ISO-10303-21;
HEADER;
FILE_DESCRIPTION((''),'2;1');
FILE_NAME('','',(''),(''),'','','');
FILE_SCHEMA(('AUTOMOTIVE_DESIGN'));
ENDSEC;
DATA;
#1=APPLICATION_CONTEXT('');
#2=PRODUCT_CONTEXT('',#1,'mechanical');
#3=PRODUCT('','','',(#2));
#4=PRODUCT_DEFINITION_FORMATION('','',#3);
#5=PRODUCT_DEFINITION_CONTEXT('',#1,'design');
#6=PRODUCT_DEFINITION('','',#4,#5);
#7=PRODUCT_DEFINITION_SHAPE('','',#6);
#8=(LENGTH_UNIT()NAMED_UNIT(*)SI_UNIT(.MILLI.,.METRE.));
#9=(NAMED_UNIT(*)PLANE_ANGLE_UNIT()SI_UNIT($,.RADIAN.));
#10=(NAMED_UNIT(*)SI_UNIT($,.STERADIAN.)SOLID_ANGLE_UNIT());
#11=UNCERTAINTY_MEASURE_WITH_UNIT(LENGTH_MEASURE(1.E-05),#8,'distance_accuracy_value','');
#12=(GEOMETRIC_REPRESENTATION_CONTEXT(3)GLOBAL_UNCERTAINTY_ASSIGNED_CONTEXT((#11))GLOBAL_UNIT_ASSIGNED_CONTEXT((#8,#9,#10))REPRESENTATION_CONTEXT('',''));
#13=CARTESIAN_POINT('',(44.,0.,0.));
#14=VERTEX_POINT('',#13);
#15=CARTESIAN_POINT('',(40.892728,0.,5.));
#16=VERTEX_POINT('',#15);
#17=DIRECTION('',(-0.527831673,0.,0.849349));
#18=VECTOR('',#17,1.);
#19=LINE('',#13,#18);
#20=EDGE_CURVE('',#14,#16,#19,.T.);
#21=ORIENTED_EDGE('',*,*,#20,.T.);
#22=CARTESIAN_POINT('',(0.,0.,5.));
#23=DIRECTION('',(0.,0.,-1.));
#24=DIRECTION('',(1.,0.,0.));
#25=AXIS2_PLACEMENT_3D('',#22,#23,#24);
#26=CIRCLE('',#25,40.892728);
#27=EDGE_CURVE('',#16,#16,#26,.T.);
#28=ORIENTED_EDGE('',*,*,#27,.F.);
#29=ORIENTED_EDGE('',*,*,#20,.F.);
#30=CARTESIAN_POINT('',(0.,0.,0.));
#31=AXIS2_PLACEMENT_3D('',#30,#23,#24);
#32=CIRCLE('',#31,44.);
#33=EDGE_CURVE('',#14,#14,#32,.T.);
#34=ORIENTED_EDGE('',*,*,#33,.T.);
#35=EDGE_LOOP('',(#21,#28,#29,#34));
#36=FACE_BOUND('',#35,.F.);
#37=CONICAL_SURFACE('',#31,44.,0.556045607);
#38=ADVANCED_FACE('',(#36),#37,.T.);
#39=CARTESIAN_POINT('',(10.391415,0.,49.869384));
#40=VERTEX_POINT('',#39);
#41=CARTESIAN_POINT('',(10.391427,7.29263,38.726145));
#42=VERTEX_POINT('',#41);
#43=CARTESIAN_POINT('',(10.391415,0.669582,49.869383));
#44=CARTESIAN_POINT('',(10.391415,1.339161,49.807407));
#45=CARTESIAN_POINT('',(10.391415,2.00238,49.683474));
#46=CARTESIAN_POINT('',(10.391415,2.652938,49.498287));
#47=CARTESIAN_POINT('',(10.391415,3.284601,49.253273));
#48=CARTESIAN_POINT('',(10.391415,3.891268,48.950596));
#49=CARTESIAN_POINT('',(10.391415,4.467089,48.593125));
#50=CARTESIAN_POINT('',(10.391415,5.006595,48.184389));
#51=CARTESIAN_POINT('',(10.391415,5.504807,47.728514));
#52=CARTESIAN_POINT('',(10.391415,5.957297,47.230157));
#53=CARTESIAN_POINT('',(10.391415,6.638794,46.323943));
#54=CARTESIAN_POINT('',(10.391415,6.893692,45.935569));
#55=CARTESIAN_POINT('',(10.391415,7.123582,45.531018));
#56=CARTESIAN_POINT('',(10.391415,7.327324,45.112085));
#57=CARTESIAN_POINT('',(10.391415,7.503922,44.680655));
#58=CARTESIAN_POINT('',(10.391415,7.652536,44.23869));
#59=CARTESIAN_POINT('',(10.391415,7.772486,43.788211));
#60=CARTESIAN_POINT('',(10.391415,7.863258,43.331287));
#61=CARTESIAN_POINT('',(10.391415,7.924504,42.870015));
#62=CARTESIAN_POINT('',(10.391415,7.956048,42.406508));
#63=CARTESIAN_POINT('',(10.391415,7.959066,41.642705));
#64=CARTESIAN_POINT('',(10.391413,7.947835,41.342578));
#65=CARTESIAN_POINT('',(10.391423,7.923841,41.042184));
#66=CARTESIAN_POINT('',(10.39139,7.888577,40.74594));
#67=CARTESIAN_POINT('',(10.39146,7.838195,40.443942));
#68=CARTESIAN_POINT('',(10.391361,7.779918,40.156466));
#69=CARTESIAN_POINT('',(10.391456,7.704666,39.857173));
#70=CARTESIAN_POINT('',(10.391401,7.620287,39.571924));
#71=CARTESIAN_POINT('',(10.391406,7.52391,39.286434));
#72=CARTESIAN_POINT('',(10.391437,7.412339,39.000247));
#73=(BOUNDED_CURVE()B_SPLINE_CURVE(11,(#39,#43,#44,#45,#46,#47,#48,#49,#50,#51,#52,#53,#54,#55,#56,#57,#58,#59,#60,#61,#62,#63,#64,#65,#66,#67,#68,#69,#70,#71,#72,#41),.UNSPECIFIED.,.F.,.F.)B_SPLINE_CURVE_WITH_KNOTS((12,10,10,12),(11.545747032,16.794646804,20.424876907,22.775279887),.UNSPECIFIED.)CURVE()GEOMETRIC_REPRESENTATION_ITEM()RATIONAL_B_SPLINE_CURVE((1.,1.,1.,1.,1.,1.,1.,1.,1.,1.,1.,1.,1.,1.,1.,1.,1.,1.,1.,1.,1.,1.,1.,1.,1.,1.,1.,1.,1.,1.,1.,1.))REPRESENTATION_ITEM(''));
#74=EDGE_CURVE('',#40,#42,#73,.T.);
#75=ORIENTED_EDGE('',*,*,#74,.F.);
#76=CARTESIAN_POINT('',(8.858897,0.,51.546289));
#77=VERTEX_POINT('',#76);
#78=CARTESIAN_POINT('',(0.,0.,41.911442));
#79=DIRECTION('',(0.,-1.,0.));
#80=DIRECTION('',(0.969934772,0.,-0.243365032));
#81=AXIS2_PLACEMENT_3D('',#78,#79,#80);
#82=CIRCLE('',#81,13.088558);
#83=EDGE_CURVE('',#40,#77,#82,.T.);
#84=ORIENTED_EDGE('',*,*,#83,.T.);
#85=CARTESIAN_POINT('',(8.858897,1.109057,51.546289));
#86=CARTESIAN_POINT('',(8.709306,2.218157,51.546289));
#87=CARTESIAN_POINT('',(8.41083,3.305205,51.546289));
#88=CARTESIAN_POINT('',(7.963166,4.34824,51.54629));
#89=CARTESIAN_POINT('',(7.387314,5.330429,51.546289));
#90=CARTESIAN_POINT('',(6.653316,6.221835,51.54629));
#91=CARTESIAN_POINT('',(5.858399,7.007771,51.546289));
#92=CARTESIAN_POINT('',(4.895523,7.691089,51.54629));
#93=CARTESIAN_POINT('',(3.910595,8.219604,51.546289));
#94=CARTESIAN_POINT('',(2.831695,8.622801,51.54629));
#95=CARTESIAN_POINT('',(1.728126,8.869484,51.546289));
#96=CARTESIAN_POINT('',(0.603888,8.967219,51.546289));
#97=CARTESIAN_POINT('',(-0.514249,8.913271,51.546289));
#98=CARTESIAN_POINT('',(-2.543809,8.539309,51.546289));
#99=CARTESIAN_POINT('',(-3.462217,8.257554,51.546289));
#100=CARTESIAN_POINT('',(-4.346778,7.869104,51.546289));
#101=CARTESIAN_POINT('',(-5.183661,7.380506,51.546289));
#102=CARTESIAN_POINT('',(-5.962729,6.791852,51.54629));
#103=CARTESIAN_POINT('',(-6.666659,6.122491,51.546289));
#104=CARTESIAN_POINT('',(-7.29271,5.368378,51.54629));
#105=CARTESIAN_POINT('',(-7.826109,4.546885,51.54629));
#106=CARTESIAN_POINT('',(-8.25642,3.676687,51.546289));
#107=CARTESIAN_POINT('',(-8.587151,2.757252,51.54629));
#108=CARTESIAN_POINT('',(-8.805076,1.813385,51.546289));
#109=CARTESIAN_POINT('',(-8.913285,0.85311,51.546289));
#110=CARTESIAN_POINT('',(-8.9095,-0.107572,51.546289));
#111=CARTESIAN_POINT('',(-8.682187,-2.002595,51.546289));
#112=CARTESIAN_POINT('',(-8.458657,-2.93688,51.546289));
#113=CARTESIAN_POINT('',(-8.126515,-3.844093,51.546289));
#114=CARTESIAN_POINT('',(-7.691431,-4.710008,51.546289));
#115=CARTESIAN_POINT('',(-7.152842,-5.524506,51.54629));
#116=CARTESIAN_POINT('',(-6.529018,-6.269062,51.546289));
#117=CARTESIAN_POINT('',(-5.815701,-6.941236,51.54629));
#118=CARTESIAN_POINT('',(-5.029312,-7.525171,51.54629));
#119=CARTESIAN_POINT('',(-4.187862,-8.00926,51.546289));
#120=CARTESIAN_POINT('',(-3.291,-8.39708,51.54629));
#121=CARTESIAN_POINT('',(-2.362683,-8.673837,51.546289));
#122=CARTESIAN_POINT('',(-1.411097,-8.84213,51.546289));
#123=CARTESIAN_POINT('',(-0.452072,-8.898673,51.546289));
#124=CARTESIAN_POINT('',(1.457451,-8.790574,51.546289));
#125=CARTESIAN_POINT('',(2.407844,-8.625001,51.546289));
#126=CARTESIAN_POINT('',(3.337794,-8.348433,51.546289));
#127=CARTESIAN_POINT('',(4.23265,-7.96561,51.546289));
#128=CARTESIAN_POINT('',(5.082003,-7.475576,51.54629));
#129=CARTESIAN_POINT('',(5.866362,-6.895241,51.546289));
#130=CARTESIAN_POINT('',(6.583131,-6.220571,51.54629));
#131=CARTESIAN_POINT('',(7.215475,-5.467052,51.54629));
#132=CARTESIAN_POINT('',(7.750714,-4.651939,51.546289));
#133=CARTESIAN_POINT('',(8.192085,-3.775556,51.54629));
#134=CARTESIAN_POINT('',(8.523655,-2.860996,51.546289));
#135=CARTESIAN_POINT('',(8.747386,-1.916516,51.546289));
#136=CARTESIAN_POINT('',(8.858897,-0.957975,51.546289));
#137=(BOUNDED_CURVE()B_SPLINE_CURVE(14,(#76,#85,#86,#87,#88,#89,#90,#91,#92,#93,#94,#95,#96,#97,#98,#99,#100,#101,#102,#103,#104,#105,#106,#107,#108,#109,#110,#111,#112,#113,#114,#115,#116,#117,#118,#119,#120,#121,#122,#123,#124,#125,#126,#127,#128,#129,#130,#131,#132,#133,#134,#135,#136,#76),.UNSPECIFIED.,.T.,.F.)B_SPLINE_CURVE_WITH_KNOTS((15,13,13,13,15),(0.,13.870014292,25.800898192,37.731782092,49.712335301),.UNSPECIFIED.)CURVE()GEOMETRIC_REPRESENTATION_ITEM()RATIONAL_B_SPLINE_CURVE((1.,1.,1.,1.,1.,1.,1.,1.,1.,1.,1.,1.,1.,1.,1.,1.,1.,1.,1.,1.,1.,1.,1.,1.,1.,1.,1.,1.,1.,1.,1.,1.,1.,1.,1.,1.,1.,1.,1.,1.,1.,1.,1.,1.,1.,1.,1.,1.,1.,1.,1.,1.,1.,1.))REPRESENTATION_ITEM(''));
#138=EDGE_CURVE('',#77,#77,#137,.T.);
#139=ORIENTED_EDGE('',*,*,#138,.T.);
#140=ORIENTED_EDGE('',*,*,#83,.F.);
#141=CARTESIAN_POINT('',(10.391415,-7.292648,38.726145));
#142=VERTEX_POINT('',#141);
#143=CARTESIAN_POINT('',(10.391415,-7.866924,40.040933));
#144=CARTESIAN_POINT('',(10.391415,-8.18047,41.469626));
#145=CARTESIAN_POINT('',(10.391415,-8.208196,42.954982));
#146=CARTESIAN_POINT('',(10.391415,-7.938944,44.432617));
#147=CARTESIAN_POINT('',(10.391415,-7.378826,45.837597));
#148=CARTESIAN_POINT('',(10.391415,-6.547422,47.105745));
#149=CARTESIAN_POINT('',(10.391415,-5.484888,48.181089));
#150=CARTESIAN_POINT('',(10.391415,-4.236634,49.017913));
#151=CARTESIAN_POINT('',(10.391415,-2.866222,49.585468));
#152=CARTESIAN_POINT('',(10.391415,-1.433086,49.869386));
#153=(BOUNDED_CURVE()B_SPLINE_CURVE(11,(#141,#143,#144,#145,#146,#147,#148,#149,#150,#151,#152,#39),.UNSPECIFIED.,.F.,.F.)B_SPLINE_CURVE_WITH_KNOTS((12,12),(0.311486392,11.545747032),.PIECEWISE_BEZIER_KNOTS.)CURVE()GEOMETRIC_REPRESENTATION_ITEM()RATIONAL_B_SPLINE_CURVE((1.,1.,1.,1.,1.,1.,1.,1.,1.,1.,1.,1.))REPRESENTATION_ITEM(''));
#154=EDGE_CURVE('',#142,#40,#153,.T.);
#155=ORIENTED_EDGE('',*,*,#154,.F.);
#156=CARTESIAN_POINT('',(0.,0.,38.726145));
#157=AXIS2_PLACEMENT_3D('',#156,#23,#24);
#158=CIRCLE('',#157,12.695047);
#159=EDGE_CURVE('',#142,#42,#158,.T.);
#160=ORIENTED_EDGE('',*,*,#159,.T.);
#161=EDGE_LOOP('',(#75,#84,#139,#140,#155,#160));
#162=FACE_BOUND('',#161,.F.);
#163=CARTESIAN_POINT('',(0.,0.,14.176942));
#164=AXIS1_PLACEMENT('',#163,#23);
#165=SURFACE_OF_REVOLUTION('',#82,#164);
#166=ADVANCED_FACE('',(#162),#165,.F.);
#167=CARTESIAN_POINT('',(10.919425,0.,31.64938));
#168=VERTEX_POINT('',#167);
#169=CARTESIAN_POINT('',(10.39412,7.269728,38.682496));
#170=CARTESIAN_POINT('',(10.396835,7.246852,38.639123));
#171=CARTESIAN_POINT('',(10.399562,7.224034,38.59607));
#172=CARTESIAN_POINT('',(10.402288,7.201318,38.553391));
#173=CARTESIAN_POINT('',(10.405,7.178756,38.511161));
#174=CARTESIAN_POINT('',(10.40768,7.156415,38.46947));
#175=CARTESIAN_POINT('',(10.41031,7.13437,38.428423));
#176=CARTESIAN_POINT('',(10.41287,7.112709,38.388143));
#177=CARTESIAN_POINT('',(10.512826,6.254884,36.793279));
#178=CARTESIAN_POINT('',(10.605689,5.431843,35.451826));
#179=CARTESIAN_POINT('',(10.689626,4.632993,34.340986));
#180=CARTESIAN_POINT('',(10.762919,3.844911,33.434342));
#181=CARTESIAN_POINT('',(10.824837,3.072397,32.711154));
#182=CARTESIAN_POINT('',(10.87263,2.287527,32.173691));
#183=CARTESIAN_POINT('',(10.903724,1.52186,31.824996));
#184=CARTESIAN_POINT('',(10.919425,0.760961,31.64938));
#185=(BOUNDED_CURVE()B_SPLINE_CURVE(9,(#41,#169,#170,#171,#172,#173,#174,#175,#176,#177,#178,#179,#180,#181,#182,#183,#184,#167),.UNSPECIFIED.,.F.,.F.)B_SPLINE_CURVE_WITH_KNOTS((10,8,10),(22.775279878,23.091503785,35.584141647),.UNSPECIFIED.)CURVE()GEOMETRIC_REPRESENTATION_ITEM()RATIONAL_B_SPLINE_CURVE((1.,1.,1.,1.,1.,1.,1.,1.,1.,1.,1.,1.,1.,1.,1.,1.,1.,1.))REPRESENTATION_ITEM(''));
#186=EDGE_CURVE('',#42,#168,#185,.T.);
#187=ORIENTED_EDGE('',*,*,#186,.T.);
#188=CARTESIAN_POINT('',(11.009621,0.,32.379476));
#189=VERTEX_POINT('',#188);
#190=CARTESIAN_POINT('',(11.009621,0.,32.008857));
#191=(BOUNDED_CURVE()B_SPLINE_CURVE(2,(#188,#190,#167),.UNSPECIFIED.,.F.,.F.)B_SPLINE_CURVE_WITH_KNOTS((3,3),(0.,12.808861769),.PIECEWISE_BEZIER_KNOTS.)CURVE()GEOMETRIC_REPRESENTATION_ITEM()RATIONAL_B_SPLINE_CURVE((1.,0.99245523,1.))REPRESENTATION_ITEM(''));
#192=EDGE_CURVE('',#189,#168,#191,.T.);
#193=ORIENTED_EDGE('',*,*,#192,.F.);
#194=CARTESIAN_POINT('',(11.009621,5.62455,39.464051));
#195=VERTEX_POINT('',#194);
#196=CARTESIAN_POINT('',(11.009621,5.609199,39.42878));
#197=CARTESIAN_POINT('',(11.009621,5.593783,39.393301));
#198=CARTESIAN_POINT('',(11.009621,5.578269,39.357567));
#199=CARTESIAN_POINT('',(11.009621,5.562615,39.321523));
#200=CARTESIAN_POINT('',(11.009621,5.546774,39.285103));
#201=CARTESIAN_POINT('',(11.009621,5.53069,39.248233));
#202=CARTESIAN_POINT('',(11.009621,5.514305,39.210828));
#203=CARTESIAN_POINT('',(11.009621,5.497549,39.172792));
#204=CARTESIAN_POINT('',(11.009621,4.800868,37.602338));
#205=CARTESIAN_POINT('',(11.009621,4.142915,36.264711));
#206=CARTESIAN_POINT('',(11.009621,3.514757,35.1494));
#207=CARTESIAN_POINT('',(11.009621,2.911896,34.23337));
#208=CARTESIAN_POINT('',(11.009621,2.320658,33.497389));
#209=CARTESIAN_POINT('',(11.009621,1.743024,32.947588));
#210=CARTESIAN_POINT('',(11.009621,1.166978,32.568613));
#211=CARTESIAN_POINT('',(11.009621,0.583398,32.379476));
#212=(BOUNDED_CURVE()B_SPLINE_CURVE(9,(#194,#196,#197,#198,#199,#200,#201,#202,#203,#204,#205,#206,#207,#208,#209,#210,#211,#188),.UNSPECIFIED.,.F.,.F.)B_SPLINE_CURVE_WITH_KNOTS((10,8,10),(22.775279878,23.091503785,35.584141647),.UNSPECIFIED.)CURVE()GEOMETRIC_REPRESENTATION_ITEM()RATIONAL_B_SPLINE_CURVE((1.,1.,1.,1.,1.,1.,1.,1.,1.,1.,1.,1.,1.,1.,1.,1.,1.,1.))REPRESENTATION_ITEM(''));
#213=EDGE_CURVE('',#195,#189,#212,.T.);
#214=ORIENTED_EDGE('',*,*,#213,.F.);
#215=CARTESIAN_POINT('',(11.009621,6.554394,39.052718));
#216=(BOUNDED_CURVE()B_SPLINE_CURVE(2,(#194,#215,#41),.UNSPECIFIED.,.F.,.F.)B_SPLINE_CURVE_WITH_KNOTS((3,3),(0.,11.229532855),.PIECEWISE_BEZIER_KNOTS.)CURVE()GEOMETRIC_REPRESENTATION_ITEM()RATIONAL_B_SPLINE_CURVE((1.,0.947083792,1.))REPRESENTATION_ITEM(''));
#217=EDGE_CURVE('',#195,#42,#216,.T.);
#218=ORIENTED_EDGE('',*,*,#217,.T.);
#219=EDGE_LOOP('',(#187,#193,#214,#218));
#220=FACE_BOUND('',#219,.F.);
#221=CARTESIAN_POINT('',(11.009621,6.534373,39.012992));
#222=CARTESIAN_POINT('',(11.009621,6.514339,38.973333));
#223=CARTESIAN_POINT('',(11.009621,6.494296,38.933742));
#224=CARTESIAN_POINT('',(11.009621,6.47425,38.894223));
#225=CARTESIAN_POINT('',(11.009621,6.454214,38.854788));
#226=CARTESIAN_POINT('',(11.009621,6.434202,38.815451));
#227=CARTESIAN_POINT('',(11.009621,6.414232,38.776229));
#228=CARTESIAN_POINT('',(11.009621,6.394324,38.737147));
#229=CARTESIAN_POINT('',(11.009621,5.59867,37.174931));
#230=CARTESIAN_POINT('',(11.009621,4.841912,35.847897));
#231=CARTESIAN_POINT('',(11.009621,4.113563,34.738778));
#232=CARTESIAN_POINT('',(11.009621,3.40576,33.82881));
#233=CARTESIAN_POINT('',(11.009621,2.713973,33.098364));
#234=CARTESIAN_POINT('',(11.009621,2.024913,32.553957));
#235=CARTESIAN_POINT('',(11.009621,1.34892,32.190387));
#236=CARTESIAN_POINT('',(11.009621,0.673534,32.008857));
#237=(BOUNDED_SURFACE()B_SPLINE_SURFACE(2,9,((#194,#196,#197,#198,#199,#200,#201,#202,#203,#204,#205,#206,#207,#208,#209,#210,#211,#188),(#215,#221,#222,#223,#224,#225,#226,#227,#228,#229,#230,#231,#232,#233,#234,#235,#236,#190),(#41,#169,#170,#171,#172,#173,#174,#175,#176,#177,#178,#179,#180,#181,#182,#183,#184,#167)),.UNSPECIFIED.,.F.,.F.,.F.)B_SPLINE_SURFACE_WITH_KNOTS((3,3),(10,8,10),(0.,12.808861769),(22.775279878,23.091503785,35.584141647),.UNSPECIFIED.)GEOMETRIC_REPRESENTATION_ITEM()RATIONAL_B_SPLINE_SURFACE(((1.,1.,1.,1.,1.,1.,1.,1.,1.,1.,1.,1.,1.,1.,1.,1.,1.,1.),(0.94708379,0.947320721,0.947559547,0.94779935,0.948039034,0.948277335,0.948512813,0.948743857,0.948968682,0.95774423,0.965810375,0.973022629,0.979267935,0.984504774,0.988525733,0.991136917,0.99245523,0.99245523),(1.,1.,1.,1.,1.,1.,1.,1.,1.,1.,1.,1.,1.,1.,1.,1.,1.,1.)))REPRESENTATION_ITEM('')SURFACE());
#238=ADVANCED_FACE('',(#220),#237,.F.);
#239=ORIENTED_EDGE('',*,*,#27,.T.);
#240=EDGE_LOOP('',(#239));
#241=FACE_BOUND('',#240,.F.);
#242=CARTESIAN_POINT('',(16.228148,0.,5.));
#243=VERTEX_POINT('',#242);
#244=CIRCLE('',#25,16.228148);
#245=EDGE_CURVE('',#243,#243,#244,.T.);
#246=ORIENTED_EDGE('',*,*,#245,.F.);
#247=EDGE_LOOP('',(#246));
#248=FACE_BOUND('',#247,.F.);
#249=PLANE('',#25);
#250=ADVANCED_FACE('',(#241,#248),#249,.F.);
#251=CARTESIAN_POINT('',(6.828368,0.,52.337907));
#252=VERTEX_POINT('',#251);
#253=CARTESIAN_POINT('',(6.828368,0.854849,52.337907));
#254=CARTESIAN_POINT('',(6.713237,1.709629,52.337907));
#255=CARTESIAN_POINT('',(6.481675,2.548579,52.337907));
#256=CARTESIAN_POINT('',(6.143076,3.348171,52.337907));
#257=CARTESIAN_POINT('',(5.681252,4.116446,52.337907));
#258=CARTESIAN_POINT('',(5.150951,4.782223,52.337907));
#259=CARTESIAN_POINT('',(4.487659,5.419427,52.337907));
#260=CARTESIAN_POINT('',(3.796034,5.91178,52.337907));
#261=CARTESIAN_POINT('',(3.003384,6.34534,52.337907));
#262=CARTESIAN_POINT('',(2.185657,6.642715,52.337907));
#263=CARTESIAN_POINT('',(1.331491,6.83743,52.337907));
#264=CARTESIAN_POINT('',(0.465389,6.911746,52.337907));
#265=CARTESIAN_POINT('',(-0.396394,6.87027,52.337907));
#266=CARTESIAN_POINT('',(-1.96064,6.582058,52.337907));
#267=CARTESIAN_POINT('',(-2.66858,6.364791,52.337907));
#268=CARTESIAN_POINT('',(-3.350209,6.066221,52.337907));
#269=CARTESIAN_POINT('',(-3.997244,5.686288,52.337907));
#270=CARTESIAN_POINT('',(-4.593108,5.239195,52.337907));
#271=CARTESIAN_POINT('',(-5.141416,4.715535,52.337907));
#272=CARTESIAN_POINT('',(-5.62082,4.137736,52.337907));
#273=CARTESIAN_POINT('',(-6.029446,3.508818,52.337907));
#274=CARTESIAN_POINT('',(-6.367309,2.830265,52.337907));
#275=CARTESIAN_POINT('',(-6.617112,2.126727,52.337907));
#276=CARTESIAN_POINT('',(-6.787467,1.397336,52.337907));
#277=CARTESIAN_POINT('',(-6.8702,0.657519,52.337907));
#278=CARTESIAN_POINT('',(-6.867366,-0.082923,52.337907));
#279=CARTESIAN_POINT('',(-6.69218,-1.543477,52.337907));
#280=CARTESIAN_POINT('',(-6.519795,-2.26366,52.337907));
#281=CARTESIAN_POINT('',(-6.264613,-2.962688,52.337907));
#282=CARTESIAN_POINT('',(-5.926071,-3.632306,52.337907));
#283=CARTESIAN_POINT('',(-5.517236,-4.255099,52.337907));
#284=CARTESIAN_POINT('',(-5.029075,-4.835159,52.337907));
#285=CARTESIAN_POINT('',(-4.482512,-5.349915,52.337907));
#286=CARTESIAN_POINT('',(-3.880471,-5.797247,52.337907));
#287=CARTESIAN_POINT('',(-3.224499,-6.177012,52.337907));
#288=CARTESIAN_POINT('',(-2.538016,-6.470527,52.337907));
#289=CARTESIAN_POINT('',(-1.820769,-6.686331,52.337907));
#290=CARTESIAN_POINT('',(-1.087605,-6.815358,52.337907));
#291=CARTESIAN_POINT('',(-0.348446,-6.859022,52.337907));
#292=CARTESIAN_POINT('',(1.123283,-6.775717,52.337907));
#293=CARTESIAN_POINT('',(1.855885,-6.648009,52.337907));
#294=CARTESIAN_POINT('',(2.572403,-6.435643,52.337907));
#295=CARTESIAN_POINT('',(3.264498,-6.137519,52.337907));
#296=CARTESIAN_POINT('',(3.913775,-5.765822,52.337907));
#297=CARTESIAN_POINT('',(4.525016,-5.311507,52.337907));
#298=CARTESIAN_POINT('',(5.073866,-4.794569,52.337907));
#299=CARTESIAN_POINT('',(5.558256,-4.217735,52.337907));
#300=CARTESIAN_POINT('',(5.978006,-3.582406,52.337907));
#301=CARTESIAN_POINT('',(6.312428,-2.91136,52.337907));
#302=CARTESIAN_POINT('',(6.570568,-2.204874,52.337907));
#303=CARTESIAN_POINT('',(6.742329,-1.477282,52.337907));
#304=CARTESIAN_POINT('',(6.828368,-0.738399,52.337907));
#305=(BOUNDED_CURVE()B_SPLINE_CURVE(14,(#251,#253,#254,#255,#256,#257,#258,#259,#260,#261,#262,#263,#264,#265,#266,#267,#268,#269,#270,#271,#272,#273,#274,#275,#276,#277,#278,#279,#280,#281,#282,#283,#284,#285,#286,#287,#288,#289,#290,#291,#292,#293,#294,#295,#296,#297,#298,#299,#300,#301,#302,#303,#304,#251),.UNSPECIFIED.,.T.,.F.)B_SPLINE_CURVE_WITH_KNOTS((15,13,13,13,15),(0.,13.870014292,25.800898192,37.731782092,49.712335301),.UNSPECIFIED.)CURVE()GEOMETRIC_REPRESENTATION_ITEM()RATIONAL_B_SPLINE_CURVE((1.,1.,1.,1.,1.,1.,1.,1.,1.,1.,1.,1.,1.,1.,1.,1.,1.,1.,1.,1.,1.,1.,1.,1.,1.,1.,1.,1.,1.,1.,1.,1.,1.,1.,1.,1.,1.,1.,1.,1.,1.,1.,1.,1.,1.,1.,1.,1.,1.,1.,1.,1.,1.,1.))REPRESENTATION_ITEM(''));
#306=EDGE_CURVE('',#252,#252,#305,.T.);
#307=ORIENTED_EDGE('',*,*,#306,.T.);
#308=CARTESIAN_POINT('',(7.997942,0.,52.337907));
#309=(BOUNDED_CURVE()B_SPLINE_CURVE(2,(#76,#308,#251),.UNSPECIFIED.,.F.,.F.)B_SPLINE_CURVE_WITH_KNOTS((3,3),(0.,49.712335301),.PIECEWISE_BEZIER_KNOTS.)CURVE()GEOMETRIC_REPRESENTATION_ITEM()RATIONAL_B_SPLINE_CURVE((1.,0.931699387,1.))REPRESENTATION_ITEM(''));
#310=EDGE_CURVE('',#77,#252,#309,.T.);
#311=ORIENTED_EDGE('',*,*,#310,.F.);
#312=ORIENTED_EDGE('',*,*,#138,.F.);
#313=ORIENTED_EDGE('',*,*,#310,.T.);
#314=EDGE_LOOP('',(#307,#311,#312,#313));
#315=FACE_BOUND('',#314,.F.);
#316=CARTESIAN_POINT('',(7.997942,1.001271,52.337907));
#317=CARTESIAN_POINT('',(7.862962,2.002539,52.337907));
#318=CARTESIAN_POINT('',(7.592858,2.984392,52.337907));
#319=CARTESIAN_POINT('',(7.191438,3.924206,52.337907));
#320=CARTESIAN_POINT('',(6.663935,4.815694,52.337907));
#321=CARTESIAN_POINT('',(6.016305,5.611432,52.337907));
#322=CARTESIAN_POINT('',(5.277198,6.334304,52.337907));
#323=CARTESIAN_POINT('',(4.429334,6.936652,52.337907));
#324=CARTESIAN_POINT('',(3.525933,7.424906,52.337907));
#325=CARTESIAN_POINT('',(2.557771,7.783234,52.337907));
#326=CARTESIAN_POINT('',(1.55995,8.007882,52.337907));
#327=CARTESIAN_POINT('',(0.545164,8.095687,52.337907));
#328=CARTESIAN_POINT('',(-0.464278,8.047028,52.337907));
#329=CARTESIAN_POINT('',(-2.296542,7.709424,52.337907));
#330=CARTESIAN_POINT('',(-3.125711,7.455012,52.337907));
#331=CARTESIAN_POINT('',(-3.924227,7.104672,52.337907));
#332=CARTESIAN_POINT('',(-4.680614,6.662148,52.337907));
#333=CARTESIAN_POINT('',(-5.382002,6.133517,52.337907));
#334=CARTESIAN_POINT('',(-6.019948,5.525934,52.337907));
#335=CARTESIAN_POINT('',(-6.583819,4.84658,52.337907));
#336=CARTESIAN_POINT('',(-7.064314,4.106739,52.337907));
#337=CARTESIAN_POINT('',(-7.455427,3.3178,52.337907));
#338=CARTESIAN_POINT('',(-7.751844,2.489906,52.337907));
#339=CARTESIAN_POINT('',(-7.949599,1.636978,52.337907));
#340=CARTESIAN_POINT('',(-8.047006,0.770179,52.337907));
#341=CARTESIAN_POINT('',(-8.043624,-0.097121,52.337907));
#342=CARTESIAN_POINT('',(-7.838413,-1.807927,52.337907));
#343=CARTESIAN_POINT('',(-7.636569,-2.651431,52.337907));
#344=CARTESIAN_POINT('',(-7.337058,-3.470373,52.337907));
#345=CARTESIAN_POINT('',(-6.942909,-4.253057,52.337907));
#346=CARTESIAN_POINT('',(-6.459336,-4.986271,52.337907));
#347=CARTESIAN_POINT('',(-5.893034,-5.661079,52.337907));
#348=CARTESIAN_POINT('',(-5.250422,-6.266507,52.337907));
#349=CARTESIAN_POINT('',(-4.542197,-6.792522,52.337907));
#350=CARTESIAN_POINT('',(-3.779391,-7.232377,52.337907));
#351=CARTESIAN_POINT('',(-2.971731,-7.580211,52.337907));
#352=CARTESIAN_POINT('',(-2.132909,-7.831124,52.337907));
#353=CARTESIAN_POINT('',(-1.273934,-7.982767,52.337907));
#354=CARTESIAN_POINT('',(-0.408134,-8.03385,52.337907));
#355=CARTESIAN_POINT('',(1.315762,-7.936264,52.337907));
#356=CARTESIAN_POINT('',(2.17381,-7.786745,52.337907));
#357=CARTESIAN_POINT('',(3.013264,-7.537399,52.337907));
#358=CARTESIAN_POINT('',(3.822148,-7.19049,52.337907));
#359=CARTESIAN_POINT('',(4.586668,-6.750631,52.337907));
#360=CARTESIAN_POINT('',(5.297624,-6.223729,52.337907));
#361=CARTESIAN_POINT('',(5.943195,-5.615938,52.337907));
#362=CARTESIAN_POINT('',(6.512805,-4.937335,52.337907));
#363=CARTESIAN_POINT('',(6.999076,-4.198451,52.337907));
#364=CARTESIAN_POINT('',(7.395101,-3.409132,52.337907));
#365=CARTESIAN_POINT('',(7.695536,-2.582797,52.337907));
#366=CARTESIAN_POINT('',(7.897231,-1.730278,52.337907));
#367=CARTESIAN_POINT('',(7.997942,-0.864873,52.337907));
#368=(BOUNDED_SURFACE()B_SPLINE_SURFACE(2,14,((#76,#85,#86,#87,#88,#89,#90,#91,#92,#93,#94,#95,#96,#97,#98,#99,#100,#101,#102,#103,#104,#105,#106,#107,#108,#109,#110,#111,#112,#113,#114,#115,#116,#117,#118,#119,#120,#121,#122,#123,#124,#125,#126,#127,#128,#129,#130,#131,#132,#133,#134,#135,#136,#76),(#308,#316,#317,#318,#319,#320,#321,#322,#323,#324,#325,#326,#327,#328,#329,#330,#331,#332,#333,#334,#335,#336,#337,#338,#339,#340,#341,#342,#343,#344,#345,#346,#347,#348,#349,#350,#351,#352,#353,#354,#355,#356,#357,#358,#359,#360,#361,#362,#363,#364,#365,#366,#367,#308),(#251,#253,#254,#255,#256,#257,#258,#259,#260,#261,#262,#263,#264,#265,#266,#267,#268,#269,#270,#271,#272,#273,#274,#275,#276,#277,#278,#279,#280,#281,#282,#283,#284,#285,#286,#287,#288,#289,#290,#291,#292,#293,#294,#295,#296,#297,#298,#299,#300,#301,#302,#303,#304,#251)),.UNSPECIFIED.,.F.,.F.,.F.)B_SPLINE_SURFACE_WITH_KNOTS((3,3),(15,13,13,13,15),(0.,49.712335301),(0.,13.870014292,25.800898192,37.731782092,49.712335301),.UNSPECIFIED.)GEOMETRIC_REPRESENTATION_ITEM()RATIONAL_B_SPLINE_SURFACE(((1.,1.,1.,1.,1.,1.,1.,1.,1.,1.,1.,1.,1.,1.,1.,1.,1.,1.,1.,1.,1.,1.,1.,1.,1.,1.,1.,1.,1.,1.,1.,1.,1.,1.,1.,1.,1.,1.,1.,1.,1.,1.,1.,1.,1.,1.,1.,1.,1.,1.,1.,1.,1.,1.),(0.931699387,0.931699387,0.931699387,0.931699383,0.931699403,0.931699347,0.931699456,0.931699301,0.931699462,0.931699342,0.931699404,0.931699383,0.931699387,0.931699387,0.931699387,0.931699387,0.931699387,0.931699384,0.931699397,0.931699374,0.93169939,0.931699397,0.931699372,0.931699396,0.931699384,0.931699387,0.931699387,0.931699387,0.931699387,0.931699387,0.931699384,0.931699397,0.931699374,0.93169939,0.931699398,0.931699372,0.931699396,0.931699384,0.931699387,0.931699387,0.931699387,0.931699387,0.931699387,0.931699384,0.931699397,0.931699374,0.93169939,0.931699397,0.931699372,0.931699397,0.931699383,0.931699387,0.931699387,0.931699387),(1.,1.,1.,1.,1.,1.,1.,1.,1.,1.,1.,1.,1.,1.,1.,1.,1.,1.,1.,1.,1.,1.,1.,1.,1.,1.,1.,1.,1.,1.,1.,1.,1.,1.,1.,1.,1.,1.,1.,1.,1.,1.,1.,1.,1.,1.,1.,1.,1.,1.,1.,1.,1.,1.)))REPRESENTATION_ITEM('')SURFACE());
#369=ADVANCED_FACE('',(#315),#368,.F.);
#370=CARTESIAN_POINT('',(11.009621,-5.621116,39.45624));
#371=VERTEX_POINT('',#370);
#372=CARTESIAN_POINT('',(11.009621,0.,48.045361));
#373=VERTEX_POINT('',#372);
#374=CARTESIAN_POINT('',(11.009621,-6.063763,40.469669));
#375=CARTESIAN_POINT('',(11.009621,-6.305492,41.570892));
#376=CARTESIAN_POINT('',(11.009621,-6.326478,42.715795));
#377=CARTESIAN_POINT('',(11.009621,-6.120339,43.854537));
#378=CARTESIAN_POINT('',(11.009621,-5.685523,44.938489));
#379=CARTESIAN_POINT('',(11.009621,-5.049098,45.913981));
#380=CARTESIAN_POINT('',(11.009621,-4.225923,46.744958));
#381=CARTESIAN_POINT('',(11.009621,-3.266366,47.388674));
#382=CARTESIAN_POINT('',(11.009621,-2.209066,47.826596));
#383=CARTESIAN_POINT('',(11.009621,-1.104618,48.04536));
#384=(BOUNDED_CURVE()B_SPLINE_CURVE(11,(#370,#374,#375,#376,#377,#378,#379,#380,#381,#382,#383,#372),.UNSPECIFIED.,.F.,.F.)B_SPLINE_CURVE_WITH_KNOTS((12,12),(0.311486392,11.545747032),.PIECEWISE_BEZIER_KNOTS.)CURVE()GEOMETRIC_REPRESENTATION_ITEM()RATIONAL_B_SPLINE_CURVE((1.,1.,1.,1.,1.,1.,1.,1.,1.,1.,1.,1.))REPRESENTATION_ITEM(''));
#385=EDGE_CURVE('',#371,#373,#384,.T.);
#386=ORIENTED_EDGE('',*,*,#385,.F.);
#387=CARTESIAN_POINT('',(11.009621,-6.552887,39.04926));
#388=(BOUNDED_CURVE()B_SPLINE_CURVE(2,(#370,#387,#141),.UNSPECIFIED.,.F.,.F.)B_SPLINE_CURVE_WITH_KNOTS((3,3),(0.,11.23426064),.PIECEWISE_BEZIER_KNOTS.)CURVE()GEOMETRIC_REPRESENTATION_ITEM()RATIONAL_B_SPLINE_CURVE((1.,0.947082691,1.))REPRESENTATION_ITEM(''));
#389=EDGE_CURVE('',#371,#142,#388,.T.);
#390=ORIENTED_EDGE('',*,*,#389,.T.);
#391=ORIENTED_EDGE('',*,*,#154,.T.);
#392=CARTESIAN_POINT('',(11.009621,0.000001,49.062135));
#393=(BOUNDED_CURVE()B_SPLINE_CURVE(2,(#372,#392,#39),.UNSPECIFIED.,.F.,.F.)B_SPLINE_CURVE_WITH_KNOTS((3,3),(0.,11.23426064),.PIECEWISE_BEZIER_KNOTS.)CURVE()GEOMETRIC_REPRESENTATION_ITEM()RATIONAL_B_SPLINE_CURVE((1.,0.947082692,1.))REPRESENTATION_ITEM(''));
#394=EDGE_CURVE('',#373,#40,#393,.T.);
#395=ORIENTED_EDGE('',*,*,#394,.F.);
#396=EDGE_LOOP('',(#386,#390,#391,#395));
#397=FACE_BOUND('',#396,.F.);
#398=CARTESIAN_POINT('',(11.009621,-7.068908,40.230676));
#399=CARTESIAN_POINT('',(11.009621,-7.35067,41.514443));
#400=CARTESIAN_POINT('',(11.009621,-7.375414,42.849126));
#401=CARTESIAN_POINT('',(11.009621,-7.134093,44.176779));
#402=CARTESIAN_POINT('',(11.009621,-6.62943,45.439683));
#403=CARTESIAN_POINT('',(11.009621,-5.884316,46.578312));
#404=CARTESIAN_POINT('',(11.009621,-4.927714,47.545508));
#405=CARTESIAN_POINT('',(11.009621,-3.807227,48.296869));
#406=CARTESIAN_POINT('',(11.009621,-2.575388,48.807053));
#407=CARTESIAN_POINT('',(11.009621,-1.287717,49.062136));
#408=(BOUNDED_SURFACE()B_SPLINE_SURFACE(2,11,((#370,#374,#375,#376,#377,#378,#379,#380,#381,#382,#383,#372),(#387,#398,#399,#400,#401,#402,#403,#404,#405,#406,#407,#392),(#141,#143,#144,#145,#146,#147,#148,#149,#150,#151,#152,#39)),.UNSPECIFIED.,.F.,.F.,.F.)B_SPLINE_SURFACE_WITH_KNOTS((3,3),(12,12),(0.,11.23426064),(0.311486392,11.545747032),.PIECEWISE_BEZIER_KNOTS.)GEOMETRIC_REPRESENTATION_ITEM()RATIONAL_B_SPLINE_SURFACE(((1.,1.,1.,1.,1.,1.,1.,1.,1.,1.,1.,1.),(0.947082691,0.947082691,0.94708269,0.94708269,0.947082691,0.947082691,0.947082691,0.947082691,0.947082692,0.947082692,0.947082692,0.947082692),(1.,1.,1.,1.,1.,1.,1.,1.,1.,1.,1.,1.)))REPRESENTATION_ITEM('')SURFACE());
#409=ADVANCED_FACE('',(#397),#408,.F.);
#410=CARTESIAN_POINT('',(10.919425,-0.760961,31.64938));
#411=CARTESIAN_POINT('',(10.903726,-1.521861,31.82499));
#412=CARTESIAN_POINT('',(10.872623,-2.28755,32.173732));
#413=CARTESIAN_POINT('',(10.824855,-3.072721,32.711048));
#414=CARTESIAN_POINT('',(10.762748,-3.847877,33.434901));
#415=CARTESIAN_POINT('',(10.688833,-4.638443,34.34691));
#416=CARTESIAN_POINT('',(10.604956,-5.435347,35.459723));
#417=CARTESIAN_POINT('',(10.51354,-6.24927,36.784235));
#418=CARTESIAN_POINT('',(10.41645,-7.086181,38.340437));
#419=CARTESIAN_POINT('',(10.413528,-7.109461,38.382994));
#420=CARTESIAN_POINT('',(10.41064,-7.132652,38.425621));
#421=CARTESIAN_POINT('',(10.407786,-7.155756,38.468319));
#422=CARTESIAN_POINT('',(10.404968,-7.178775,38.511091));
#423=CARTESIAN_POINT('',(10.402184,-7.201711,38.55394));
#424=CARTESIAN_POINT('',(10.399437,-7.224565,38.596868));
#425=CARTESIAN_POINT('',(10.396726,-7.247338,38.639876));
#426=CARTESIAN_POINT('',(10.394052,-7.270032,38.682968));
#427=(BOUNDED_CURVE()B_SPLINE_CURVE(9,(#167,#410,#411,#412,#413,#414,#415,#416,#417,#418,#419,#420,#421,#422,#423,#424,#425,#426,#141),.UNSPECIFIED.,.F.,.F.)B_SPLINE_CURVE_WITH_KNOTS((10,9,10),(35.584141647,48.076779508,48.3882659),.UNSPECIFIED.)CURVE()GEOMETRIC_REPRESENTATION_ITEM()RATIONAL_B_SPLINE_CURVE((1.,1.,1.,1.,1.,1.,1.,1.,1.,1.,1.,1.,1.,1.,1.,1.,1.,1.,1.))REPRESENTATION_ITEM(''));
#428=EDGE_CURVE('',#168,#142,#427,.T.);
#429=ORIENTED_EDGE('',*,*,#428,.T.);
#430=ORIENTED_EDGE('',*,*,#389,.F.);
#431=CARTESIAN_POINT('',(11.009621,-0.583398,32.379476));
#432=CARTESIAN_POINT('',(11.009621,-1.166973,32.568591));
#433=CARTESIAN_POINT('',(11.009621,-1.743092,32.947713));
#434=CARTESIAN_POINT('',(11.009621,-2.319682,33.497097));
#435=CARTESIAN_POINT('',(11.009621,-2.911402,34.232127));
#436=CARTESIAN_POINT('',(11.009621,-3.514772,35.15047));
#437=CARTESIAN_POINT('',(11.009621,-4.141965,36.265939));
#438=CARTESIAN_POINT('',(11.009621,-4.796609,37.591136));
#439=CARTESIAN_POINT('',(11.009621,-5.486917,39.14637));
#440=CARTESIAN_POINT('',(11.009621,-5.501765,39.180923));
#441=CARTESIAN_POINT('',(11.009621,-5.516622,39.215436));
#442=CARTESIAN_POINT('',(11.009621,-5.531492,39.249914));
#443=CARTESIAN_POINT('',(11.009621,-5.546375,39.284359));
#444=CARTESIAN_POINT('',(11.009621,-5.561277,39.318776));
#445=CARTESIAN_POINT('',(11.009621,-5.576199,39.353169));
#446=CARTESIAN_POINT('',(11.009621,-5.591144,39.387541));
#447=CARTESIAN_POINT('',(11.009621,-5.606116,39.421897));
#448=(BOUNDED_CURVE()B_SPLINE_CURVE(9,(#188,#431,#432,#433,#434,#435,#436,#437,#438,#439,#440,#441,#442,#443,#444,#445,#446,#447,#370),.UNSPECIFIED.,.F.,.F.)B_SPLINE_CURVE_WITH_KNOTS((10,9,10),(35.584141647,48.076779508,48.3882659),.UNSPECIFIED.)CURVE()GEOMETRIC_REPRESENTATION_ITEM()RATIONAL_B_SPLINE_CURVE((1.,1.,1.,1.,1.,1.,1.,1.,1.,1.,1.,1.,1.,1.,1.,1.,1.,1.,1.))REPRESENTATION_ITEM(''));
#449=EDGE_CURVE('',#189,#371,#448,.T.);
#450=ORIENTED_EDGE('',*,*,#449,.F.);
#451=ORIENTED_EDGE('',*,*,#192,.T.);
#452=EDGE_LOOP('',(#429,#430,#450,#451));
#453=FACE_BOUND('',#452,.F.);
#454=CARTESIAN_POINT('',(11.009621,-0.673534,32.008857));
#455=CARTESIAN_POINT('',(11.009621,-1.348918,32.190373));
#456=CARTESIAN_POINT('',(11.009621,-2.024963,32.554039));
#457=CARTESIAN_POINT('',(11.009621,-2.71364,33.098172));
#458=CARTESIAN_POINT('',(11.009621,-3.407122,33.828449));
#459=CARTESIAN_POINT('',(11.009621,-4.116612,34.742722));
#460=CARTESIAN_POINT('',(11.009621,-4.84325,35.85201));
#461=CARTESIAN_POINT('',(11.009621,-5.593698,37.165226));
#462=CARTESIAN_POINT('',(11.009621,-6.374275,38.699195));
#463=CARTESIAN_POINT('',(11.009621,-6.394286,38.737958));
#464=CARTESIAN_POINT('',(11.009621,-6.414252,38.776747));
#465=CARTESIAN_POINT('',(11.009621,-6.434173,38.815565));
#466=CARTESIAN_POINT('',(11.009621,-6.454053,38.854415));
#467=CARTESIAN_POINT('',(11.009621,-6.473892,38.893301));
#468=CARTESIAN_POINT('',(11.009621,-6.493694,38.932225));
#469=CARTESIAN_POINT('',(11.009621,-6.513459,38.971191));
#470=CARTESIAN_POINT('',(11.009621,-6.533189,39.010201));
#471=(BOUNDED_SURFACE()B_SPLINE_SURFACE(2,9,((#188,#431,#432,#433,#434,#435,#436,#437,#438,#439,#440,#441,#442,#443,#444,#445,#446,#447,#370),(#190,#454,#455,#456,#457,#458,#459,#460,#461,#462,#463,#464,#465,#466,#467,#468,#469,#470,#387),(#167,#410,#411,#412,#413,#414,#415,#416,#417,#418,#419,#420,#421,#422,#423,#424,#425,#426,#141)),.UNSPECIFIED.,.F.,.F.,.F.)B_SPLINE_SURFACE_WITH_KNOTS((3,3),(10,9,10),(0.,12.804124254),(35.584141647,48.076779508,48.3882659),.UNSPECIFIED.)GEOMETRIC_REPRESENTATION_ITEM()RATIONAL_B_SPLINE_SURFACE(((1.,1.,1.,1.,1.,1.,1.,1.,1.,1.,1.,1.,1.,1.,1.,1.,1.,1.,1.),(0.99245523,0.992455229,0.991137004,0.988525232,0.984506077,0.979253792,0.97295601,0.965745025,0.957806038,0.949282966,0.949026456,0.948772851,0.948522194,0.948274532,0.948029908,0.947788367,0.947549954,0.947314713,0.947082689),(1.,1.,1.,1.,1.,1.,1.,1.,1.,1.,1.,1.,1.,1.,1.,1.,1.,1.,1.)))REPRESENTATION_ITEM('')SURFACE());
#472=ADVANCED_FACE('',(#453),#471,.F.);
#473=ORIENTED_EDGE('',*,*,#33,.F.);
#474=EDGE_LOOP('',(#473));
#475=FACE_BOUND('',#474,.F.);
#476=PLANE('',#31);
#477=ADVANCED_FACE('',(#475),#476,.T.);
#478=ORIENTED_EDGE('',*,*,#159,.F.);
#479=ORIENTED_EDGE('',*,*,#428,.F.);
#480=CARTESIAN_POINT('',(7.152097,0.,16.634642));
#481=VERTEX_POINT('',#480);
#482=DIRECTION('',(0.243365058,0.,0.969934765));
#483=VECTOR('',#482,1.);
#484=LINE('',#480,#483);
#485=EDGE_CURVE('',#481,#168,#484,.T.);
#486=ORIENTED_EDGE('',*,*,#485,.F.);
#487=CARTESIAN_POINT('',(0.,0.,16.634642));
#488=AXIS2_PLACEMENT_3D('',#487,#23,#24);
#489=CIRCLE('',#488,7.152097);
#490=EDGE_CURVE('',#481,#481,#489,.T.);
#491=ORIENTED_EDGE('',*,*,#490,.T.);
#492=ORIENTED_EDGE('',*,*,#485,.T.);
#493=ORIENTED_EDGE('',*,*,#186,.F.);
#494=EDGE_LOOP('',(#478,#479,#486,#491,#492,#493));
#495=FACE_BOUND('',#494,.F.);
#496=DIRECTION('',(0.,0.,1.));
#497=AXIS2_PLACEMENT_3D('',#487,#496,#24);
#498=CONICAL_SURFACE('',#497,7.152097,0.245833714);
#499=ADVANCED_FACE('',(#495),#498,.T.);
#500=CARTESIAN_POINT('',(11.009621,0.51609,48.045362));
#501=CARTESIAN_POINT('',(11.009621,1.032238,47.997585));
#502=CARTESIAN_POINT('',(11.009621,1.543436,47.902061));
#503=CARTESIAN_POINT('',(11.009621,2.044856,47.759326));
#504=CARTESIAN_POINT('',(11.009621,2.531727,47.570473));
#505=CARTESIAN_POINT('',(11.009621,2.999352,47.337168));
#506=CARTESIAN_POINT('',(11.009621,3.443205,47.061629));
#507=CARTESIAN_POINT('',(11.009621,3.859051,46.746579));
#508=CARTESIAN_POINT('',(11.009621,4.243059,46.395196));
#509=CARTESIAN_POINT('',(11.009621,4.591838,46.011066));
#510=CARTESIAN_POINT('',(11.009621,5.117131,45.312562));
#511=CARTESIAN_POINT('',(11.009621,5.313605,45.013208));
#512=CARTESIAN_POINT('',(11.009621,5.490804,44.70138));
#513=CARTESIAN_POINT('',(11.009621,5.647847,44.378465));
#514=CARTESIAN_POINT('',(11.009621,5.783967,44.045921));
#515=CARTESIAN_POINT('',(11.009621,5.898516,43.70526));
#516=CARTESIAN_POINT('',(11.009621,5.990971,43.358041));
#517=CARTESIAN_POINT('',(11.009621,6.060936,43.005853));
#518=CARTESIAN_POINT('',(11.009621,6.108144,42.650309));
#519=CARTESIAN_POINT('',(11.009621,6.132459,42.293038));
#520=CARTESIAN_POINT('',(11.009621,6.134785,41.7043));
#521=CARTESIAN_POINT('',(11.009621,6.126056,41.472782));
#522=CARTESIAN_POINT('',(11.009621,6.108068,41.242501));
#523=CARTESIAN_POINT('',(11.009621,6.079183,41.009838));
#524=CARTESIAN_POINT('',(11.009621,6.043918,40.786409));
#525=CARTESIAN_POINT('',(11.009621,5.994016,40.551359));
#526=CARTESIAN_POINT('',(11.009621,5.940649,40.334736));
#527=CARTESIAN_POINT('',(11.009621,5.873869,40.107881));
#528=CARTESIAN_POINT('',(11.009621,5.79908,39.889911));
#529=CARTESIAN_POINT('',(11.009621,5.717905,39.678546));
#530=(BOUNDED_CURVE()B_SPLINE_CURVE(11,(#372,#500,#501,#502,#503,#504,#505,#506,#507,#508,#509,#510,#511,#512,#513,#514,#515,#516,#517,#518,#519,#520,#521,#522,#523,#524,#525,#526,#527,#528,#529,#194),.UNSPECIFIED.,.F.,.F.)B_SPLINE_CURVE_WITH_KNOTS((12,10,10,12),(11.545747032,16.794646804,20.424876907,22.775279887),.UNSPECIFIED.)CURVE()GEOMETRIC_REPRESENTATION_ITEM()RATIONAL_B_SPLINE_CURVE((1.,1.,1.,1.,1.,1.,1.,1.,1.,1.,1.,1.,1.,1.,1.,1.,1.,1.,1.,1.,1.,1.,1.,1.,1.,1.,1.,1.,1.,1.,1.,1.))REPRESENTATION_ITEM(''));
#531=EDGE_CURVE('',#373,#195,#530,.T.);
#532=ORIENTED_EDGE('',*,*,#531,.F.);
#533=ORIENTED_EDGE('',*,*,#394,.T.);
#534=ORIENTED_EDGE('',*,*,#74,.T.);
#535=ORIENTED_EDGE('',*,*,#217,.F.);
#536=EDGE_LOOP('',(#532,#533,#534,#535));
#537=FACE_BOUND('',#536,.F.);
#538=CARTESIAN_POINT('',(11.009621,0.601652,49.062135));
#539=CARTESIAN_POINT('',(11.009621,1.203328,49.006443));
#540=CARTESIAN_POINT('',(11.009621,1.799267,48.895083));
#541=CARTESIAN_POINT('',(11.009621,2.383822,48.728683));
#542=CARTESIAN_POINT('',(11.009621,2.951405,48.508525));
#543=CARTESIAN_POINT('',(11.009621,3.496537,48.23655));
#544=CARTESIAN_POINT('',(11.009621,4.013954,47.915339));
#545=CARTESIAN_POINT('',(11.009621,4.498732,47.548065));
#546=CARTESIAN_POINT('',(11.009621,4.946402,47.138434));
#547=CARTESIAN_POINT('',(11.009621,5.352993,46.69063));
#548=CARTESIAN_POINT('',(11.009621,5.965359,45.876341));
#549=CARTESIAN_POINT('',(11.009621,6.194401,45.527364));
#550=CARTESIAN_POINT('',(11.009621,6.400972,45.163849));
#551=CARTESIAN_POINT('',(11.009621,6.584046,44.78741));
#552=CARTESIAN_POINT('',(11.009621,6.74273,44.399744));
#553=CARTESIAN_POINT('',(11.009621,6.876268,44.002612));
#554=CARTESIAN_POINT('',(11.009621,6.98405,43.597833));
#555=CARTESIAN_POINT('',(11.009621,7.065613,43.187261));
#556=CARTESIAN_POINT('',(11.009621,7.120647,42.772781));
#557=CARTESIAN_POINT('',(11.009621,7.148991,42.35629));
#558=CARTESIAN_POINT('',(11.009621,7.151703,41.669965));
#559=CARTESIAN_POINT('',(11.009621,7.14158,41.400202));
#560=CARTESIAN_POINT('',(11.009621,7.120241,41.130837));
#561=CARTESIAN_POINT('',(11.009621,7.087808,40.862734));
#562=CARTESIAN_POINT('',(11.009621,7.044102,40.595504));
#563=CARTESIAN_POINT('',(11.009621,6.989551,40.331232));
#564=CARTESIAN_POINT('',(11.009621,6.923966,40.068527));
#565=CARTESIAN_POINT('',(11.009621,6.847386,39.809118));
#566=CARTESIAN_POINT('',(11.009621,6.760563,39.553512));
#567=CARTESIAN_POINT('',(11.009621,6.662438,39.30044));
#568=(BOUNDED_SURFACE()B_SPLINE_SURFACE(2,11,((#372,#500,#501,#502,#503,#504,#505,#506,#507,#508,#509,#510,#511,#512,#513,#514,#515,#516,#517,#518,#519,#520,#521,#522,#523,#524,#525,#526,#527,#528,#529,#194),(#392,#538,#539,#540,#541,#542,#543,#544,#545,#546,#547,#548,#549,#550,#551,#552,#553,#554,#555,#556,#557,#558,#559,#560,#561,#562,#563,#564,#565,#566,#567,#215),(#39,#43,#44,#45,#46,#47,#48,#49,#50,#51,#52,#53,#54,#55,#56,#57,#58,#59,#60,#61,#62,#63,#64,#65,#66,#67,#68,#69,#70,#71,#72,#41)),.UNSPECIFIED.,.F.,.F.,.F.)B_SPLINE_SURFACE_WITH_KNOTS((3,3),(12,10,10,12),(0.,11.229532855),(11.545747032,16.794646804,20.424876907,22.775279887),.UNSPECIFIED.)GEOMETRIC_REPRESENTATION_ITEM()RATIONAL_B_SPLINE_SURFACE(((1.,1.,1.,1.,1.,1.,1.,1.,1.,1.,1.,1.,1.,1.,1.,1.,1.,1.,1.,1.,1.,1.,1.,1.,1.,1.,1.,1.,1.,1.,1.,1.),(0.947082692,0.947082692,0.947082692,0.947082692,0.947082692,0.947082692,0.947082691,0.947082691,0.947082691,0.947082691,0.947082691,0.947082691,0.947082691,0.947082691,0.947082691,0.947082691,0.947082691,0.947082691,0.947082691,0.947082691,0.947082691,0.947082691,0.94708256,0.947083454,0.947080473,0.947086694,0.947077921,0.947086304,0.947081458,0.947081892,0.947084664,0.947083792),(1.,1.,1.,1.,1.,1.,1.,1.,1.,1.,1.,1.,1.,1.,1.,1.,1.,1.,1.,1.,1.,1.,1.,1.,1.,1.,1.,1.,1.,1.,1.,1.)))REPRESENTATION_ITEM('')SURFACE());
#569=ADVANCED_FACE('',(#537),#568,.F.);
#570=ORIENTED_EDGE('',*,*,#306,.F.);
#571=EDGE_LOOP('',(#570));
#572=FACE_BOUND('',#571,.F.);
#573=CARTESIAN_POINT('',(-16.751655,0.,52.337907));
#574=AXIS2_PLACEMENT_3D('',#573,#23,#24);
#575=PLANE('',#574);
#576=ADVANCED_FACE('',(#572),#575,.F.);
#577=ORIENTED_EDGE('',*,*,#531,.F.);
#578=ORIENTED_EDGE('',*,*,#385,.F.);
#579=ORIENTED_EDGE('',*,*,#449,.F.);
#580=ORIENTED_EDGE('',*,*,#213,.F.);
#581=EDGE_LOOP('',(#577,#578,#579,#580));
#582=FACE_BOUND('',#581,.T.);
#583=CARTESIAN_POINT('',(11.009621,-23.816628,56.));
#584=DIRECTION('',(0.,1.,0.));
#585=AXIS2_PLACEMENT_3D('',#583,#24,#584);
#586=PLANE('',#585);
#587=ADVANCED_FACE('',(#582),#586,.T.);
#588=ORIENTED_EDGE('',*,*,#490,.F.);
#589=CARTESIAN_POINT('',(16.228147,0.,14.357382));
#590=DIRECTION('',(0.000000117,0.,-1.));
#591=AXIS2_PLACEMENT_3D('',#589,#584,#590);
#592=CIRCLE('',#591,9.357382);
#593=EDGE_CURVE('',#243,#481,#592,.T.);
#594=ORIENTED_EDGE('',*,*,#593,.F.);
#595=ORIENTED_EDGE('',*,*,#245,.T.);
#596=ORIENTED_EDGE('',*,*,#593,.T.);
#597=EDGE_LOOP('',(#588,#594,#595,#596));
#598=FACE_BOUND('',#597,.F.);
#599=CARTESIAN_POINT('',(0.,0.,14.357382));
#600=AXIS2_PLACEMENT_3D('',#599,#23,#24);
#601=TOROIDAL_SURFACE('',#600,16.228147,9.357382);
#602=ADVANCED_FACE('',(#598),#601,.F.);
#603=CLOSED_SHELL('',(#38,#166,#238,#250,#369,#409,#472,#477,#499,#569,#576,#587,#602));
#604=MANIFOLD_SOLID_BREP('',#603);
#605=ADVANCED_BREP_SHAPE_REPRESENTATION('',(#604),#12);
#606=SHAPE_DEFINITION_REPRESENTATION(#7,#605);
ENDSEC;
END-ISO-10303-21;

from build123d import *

# Parameters (mm, degrees)
F3_W     = 13.993276
F3_H     = 39.785632
F4_DEPTH = 25
F5_W     = 45.990731
F5_H     = 9.154398
F6_DEPTH = 12.5
F7_R     = 3


with BuildPart() as f1:
    # F0 (on Front) → F1 (revolve)
    with BuildSketch(Plane.XZ):
        with BuildLine():
            Line((0, 55), (0, 0))
            Line((0, 0), (44, 0))
            Line((44, 0), (40.892728, 5))
            Line((40.892728, 5), (16.228148, 5))
            ThreePointArc((16.228148, 5), (8.850146, 8.601889), (7.152097, 16.634642))
            Line((7.152097, 16.634642), (12.695047, 38.726145))
            ThreePointArc((12.695047, 38.726145), (10.319915, 49.961889), (0, 55))
        make_face()
    revolve(axis=Axis((0, 0, 14.176942), (0, 0, -1)))

    # F3 (on offset) → F4 (cut)
    with BuildSketch(Plane.XY.offset(56)):
        with Locations((18.006259, -3.923812)):
            Rectangle(F3_W, F3_H)
    extrude(amount=-F4_DEPTH, mode=Mode.SUBTRACT)

    # F5 (on Front) → F6 (cut, symmetric)
    with BuildSketch(Plane.XZ):
        with Locations((6.243711, 56.915106)):
            Rectangle(F5_W, F5_H)
    extrude(amount=F6_DEPTH, both=True, mode=Mode.SUBTRACT)

    # F7
    f7_edges = [f1.edges().sort_by_distance(p)[0] for p in [
        (-7.911964, 0, 52.337907),
        (11.009621, -6.026784, 45.623109),
        (11.009621, 6.026784, 45.623109),
        (11.009621, -3.847165, 34.610661),
        (11.009621, 3.847165, 34.610661),
    ]]
    fillet(f7_edges, radius=F7_R)


solid = f1.part
